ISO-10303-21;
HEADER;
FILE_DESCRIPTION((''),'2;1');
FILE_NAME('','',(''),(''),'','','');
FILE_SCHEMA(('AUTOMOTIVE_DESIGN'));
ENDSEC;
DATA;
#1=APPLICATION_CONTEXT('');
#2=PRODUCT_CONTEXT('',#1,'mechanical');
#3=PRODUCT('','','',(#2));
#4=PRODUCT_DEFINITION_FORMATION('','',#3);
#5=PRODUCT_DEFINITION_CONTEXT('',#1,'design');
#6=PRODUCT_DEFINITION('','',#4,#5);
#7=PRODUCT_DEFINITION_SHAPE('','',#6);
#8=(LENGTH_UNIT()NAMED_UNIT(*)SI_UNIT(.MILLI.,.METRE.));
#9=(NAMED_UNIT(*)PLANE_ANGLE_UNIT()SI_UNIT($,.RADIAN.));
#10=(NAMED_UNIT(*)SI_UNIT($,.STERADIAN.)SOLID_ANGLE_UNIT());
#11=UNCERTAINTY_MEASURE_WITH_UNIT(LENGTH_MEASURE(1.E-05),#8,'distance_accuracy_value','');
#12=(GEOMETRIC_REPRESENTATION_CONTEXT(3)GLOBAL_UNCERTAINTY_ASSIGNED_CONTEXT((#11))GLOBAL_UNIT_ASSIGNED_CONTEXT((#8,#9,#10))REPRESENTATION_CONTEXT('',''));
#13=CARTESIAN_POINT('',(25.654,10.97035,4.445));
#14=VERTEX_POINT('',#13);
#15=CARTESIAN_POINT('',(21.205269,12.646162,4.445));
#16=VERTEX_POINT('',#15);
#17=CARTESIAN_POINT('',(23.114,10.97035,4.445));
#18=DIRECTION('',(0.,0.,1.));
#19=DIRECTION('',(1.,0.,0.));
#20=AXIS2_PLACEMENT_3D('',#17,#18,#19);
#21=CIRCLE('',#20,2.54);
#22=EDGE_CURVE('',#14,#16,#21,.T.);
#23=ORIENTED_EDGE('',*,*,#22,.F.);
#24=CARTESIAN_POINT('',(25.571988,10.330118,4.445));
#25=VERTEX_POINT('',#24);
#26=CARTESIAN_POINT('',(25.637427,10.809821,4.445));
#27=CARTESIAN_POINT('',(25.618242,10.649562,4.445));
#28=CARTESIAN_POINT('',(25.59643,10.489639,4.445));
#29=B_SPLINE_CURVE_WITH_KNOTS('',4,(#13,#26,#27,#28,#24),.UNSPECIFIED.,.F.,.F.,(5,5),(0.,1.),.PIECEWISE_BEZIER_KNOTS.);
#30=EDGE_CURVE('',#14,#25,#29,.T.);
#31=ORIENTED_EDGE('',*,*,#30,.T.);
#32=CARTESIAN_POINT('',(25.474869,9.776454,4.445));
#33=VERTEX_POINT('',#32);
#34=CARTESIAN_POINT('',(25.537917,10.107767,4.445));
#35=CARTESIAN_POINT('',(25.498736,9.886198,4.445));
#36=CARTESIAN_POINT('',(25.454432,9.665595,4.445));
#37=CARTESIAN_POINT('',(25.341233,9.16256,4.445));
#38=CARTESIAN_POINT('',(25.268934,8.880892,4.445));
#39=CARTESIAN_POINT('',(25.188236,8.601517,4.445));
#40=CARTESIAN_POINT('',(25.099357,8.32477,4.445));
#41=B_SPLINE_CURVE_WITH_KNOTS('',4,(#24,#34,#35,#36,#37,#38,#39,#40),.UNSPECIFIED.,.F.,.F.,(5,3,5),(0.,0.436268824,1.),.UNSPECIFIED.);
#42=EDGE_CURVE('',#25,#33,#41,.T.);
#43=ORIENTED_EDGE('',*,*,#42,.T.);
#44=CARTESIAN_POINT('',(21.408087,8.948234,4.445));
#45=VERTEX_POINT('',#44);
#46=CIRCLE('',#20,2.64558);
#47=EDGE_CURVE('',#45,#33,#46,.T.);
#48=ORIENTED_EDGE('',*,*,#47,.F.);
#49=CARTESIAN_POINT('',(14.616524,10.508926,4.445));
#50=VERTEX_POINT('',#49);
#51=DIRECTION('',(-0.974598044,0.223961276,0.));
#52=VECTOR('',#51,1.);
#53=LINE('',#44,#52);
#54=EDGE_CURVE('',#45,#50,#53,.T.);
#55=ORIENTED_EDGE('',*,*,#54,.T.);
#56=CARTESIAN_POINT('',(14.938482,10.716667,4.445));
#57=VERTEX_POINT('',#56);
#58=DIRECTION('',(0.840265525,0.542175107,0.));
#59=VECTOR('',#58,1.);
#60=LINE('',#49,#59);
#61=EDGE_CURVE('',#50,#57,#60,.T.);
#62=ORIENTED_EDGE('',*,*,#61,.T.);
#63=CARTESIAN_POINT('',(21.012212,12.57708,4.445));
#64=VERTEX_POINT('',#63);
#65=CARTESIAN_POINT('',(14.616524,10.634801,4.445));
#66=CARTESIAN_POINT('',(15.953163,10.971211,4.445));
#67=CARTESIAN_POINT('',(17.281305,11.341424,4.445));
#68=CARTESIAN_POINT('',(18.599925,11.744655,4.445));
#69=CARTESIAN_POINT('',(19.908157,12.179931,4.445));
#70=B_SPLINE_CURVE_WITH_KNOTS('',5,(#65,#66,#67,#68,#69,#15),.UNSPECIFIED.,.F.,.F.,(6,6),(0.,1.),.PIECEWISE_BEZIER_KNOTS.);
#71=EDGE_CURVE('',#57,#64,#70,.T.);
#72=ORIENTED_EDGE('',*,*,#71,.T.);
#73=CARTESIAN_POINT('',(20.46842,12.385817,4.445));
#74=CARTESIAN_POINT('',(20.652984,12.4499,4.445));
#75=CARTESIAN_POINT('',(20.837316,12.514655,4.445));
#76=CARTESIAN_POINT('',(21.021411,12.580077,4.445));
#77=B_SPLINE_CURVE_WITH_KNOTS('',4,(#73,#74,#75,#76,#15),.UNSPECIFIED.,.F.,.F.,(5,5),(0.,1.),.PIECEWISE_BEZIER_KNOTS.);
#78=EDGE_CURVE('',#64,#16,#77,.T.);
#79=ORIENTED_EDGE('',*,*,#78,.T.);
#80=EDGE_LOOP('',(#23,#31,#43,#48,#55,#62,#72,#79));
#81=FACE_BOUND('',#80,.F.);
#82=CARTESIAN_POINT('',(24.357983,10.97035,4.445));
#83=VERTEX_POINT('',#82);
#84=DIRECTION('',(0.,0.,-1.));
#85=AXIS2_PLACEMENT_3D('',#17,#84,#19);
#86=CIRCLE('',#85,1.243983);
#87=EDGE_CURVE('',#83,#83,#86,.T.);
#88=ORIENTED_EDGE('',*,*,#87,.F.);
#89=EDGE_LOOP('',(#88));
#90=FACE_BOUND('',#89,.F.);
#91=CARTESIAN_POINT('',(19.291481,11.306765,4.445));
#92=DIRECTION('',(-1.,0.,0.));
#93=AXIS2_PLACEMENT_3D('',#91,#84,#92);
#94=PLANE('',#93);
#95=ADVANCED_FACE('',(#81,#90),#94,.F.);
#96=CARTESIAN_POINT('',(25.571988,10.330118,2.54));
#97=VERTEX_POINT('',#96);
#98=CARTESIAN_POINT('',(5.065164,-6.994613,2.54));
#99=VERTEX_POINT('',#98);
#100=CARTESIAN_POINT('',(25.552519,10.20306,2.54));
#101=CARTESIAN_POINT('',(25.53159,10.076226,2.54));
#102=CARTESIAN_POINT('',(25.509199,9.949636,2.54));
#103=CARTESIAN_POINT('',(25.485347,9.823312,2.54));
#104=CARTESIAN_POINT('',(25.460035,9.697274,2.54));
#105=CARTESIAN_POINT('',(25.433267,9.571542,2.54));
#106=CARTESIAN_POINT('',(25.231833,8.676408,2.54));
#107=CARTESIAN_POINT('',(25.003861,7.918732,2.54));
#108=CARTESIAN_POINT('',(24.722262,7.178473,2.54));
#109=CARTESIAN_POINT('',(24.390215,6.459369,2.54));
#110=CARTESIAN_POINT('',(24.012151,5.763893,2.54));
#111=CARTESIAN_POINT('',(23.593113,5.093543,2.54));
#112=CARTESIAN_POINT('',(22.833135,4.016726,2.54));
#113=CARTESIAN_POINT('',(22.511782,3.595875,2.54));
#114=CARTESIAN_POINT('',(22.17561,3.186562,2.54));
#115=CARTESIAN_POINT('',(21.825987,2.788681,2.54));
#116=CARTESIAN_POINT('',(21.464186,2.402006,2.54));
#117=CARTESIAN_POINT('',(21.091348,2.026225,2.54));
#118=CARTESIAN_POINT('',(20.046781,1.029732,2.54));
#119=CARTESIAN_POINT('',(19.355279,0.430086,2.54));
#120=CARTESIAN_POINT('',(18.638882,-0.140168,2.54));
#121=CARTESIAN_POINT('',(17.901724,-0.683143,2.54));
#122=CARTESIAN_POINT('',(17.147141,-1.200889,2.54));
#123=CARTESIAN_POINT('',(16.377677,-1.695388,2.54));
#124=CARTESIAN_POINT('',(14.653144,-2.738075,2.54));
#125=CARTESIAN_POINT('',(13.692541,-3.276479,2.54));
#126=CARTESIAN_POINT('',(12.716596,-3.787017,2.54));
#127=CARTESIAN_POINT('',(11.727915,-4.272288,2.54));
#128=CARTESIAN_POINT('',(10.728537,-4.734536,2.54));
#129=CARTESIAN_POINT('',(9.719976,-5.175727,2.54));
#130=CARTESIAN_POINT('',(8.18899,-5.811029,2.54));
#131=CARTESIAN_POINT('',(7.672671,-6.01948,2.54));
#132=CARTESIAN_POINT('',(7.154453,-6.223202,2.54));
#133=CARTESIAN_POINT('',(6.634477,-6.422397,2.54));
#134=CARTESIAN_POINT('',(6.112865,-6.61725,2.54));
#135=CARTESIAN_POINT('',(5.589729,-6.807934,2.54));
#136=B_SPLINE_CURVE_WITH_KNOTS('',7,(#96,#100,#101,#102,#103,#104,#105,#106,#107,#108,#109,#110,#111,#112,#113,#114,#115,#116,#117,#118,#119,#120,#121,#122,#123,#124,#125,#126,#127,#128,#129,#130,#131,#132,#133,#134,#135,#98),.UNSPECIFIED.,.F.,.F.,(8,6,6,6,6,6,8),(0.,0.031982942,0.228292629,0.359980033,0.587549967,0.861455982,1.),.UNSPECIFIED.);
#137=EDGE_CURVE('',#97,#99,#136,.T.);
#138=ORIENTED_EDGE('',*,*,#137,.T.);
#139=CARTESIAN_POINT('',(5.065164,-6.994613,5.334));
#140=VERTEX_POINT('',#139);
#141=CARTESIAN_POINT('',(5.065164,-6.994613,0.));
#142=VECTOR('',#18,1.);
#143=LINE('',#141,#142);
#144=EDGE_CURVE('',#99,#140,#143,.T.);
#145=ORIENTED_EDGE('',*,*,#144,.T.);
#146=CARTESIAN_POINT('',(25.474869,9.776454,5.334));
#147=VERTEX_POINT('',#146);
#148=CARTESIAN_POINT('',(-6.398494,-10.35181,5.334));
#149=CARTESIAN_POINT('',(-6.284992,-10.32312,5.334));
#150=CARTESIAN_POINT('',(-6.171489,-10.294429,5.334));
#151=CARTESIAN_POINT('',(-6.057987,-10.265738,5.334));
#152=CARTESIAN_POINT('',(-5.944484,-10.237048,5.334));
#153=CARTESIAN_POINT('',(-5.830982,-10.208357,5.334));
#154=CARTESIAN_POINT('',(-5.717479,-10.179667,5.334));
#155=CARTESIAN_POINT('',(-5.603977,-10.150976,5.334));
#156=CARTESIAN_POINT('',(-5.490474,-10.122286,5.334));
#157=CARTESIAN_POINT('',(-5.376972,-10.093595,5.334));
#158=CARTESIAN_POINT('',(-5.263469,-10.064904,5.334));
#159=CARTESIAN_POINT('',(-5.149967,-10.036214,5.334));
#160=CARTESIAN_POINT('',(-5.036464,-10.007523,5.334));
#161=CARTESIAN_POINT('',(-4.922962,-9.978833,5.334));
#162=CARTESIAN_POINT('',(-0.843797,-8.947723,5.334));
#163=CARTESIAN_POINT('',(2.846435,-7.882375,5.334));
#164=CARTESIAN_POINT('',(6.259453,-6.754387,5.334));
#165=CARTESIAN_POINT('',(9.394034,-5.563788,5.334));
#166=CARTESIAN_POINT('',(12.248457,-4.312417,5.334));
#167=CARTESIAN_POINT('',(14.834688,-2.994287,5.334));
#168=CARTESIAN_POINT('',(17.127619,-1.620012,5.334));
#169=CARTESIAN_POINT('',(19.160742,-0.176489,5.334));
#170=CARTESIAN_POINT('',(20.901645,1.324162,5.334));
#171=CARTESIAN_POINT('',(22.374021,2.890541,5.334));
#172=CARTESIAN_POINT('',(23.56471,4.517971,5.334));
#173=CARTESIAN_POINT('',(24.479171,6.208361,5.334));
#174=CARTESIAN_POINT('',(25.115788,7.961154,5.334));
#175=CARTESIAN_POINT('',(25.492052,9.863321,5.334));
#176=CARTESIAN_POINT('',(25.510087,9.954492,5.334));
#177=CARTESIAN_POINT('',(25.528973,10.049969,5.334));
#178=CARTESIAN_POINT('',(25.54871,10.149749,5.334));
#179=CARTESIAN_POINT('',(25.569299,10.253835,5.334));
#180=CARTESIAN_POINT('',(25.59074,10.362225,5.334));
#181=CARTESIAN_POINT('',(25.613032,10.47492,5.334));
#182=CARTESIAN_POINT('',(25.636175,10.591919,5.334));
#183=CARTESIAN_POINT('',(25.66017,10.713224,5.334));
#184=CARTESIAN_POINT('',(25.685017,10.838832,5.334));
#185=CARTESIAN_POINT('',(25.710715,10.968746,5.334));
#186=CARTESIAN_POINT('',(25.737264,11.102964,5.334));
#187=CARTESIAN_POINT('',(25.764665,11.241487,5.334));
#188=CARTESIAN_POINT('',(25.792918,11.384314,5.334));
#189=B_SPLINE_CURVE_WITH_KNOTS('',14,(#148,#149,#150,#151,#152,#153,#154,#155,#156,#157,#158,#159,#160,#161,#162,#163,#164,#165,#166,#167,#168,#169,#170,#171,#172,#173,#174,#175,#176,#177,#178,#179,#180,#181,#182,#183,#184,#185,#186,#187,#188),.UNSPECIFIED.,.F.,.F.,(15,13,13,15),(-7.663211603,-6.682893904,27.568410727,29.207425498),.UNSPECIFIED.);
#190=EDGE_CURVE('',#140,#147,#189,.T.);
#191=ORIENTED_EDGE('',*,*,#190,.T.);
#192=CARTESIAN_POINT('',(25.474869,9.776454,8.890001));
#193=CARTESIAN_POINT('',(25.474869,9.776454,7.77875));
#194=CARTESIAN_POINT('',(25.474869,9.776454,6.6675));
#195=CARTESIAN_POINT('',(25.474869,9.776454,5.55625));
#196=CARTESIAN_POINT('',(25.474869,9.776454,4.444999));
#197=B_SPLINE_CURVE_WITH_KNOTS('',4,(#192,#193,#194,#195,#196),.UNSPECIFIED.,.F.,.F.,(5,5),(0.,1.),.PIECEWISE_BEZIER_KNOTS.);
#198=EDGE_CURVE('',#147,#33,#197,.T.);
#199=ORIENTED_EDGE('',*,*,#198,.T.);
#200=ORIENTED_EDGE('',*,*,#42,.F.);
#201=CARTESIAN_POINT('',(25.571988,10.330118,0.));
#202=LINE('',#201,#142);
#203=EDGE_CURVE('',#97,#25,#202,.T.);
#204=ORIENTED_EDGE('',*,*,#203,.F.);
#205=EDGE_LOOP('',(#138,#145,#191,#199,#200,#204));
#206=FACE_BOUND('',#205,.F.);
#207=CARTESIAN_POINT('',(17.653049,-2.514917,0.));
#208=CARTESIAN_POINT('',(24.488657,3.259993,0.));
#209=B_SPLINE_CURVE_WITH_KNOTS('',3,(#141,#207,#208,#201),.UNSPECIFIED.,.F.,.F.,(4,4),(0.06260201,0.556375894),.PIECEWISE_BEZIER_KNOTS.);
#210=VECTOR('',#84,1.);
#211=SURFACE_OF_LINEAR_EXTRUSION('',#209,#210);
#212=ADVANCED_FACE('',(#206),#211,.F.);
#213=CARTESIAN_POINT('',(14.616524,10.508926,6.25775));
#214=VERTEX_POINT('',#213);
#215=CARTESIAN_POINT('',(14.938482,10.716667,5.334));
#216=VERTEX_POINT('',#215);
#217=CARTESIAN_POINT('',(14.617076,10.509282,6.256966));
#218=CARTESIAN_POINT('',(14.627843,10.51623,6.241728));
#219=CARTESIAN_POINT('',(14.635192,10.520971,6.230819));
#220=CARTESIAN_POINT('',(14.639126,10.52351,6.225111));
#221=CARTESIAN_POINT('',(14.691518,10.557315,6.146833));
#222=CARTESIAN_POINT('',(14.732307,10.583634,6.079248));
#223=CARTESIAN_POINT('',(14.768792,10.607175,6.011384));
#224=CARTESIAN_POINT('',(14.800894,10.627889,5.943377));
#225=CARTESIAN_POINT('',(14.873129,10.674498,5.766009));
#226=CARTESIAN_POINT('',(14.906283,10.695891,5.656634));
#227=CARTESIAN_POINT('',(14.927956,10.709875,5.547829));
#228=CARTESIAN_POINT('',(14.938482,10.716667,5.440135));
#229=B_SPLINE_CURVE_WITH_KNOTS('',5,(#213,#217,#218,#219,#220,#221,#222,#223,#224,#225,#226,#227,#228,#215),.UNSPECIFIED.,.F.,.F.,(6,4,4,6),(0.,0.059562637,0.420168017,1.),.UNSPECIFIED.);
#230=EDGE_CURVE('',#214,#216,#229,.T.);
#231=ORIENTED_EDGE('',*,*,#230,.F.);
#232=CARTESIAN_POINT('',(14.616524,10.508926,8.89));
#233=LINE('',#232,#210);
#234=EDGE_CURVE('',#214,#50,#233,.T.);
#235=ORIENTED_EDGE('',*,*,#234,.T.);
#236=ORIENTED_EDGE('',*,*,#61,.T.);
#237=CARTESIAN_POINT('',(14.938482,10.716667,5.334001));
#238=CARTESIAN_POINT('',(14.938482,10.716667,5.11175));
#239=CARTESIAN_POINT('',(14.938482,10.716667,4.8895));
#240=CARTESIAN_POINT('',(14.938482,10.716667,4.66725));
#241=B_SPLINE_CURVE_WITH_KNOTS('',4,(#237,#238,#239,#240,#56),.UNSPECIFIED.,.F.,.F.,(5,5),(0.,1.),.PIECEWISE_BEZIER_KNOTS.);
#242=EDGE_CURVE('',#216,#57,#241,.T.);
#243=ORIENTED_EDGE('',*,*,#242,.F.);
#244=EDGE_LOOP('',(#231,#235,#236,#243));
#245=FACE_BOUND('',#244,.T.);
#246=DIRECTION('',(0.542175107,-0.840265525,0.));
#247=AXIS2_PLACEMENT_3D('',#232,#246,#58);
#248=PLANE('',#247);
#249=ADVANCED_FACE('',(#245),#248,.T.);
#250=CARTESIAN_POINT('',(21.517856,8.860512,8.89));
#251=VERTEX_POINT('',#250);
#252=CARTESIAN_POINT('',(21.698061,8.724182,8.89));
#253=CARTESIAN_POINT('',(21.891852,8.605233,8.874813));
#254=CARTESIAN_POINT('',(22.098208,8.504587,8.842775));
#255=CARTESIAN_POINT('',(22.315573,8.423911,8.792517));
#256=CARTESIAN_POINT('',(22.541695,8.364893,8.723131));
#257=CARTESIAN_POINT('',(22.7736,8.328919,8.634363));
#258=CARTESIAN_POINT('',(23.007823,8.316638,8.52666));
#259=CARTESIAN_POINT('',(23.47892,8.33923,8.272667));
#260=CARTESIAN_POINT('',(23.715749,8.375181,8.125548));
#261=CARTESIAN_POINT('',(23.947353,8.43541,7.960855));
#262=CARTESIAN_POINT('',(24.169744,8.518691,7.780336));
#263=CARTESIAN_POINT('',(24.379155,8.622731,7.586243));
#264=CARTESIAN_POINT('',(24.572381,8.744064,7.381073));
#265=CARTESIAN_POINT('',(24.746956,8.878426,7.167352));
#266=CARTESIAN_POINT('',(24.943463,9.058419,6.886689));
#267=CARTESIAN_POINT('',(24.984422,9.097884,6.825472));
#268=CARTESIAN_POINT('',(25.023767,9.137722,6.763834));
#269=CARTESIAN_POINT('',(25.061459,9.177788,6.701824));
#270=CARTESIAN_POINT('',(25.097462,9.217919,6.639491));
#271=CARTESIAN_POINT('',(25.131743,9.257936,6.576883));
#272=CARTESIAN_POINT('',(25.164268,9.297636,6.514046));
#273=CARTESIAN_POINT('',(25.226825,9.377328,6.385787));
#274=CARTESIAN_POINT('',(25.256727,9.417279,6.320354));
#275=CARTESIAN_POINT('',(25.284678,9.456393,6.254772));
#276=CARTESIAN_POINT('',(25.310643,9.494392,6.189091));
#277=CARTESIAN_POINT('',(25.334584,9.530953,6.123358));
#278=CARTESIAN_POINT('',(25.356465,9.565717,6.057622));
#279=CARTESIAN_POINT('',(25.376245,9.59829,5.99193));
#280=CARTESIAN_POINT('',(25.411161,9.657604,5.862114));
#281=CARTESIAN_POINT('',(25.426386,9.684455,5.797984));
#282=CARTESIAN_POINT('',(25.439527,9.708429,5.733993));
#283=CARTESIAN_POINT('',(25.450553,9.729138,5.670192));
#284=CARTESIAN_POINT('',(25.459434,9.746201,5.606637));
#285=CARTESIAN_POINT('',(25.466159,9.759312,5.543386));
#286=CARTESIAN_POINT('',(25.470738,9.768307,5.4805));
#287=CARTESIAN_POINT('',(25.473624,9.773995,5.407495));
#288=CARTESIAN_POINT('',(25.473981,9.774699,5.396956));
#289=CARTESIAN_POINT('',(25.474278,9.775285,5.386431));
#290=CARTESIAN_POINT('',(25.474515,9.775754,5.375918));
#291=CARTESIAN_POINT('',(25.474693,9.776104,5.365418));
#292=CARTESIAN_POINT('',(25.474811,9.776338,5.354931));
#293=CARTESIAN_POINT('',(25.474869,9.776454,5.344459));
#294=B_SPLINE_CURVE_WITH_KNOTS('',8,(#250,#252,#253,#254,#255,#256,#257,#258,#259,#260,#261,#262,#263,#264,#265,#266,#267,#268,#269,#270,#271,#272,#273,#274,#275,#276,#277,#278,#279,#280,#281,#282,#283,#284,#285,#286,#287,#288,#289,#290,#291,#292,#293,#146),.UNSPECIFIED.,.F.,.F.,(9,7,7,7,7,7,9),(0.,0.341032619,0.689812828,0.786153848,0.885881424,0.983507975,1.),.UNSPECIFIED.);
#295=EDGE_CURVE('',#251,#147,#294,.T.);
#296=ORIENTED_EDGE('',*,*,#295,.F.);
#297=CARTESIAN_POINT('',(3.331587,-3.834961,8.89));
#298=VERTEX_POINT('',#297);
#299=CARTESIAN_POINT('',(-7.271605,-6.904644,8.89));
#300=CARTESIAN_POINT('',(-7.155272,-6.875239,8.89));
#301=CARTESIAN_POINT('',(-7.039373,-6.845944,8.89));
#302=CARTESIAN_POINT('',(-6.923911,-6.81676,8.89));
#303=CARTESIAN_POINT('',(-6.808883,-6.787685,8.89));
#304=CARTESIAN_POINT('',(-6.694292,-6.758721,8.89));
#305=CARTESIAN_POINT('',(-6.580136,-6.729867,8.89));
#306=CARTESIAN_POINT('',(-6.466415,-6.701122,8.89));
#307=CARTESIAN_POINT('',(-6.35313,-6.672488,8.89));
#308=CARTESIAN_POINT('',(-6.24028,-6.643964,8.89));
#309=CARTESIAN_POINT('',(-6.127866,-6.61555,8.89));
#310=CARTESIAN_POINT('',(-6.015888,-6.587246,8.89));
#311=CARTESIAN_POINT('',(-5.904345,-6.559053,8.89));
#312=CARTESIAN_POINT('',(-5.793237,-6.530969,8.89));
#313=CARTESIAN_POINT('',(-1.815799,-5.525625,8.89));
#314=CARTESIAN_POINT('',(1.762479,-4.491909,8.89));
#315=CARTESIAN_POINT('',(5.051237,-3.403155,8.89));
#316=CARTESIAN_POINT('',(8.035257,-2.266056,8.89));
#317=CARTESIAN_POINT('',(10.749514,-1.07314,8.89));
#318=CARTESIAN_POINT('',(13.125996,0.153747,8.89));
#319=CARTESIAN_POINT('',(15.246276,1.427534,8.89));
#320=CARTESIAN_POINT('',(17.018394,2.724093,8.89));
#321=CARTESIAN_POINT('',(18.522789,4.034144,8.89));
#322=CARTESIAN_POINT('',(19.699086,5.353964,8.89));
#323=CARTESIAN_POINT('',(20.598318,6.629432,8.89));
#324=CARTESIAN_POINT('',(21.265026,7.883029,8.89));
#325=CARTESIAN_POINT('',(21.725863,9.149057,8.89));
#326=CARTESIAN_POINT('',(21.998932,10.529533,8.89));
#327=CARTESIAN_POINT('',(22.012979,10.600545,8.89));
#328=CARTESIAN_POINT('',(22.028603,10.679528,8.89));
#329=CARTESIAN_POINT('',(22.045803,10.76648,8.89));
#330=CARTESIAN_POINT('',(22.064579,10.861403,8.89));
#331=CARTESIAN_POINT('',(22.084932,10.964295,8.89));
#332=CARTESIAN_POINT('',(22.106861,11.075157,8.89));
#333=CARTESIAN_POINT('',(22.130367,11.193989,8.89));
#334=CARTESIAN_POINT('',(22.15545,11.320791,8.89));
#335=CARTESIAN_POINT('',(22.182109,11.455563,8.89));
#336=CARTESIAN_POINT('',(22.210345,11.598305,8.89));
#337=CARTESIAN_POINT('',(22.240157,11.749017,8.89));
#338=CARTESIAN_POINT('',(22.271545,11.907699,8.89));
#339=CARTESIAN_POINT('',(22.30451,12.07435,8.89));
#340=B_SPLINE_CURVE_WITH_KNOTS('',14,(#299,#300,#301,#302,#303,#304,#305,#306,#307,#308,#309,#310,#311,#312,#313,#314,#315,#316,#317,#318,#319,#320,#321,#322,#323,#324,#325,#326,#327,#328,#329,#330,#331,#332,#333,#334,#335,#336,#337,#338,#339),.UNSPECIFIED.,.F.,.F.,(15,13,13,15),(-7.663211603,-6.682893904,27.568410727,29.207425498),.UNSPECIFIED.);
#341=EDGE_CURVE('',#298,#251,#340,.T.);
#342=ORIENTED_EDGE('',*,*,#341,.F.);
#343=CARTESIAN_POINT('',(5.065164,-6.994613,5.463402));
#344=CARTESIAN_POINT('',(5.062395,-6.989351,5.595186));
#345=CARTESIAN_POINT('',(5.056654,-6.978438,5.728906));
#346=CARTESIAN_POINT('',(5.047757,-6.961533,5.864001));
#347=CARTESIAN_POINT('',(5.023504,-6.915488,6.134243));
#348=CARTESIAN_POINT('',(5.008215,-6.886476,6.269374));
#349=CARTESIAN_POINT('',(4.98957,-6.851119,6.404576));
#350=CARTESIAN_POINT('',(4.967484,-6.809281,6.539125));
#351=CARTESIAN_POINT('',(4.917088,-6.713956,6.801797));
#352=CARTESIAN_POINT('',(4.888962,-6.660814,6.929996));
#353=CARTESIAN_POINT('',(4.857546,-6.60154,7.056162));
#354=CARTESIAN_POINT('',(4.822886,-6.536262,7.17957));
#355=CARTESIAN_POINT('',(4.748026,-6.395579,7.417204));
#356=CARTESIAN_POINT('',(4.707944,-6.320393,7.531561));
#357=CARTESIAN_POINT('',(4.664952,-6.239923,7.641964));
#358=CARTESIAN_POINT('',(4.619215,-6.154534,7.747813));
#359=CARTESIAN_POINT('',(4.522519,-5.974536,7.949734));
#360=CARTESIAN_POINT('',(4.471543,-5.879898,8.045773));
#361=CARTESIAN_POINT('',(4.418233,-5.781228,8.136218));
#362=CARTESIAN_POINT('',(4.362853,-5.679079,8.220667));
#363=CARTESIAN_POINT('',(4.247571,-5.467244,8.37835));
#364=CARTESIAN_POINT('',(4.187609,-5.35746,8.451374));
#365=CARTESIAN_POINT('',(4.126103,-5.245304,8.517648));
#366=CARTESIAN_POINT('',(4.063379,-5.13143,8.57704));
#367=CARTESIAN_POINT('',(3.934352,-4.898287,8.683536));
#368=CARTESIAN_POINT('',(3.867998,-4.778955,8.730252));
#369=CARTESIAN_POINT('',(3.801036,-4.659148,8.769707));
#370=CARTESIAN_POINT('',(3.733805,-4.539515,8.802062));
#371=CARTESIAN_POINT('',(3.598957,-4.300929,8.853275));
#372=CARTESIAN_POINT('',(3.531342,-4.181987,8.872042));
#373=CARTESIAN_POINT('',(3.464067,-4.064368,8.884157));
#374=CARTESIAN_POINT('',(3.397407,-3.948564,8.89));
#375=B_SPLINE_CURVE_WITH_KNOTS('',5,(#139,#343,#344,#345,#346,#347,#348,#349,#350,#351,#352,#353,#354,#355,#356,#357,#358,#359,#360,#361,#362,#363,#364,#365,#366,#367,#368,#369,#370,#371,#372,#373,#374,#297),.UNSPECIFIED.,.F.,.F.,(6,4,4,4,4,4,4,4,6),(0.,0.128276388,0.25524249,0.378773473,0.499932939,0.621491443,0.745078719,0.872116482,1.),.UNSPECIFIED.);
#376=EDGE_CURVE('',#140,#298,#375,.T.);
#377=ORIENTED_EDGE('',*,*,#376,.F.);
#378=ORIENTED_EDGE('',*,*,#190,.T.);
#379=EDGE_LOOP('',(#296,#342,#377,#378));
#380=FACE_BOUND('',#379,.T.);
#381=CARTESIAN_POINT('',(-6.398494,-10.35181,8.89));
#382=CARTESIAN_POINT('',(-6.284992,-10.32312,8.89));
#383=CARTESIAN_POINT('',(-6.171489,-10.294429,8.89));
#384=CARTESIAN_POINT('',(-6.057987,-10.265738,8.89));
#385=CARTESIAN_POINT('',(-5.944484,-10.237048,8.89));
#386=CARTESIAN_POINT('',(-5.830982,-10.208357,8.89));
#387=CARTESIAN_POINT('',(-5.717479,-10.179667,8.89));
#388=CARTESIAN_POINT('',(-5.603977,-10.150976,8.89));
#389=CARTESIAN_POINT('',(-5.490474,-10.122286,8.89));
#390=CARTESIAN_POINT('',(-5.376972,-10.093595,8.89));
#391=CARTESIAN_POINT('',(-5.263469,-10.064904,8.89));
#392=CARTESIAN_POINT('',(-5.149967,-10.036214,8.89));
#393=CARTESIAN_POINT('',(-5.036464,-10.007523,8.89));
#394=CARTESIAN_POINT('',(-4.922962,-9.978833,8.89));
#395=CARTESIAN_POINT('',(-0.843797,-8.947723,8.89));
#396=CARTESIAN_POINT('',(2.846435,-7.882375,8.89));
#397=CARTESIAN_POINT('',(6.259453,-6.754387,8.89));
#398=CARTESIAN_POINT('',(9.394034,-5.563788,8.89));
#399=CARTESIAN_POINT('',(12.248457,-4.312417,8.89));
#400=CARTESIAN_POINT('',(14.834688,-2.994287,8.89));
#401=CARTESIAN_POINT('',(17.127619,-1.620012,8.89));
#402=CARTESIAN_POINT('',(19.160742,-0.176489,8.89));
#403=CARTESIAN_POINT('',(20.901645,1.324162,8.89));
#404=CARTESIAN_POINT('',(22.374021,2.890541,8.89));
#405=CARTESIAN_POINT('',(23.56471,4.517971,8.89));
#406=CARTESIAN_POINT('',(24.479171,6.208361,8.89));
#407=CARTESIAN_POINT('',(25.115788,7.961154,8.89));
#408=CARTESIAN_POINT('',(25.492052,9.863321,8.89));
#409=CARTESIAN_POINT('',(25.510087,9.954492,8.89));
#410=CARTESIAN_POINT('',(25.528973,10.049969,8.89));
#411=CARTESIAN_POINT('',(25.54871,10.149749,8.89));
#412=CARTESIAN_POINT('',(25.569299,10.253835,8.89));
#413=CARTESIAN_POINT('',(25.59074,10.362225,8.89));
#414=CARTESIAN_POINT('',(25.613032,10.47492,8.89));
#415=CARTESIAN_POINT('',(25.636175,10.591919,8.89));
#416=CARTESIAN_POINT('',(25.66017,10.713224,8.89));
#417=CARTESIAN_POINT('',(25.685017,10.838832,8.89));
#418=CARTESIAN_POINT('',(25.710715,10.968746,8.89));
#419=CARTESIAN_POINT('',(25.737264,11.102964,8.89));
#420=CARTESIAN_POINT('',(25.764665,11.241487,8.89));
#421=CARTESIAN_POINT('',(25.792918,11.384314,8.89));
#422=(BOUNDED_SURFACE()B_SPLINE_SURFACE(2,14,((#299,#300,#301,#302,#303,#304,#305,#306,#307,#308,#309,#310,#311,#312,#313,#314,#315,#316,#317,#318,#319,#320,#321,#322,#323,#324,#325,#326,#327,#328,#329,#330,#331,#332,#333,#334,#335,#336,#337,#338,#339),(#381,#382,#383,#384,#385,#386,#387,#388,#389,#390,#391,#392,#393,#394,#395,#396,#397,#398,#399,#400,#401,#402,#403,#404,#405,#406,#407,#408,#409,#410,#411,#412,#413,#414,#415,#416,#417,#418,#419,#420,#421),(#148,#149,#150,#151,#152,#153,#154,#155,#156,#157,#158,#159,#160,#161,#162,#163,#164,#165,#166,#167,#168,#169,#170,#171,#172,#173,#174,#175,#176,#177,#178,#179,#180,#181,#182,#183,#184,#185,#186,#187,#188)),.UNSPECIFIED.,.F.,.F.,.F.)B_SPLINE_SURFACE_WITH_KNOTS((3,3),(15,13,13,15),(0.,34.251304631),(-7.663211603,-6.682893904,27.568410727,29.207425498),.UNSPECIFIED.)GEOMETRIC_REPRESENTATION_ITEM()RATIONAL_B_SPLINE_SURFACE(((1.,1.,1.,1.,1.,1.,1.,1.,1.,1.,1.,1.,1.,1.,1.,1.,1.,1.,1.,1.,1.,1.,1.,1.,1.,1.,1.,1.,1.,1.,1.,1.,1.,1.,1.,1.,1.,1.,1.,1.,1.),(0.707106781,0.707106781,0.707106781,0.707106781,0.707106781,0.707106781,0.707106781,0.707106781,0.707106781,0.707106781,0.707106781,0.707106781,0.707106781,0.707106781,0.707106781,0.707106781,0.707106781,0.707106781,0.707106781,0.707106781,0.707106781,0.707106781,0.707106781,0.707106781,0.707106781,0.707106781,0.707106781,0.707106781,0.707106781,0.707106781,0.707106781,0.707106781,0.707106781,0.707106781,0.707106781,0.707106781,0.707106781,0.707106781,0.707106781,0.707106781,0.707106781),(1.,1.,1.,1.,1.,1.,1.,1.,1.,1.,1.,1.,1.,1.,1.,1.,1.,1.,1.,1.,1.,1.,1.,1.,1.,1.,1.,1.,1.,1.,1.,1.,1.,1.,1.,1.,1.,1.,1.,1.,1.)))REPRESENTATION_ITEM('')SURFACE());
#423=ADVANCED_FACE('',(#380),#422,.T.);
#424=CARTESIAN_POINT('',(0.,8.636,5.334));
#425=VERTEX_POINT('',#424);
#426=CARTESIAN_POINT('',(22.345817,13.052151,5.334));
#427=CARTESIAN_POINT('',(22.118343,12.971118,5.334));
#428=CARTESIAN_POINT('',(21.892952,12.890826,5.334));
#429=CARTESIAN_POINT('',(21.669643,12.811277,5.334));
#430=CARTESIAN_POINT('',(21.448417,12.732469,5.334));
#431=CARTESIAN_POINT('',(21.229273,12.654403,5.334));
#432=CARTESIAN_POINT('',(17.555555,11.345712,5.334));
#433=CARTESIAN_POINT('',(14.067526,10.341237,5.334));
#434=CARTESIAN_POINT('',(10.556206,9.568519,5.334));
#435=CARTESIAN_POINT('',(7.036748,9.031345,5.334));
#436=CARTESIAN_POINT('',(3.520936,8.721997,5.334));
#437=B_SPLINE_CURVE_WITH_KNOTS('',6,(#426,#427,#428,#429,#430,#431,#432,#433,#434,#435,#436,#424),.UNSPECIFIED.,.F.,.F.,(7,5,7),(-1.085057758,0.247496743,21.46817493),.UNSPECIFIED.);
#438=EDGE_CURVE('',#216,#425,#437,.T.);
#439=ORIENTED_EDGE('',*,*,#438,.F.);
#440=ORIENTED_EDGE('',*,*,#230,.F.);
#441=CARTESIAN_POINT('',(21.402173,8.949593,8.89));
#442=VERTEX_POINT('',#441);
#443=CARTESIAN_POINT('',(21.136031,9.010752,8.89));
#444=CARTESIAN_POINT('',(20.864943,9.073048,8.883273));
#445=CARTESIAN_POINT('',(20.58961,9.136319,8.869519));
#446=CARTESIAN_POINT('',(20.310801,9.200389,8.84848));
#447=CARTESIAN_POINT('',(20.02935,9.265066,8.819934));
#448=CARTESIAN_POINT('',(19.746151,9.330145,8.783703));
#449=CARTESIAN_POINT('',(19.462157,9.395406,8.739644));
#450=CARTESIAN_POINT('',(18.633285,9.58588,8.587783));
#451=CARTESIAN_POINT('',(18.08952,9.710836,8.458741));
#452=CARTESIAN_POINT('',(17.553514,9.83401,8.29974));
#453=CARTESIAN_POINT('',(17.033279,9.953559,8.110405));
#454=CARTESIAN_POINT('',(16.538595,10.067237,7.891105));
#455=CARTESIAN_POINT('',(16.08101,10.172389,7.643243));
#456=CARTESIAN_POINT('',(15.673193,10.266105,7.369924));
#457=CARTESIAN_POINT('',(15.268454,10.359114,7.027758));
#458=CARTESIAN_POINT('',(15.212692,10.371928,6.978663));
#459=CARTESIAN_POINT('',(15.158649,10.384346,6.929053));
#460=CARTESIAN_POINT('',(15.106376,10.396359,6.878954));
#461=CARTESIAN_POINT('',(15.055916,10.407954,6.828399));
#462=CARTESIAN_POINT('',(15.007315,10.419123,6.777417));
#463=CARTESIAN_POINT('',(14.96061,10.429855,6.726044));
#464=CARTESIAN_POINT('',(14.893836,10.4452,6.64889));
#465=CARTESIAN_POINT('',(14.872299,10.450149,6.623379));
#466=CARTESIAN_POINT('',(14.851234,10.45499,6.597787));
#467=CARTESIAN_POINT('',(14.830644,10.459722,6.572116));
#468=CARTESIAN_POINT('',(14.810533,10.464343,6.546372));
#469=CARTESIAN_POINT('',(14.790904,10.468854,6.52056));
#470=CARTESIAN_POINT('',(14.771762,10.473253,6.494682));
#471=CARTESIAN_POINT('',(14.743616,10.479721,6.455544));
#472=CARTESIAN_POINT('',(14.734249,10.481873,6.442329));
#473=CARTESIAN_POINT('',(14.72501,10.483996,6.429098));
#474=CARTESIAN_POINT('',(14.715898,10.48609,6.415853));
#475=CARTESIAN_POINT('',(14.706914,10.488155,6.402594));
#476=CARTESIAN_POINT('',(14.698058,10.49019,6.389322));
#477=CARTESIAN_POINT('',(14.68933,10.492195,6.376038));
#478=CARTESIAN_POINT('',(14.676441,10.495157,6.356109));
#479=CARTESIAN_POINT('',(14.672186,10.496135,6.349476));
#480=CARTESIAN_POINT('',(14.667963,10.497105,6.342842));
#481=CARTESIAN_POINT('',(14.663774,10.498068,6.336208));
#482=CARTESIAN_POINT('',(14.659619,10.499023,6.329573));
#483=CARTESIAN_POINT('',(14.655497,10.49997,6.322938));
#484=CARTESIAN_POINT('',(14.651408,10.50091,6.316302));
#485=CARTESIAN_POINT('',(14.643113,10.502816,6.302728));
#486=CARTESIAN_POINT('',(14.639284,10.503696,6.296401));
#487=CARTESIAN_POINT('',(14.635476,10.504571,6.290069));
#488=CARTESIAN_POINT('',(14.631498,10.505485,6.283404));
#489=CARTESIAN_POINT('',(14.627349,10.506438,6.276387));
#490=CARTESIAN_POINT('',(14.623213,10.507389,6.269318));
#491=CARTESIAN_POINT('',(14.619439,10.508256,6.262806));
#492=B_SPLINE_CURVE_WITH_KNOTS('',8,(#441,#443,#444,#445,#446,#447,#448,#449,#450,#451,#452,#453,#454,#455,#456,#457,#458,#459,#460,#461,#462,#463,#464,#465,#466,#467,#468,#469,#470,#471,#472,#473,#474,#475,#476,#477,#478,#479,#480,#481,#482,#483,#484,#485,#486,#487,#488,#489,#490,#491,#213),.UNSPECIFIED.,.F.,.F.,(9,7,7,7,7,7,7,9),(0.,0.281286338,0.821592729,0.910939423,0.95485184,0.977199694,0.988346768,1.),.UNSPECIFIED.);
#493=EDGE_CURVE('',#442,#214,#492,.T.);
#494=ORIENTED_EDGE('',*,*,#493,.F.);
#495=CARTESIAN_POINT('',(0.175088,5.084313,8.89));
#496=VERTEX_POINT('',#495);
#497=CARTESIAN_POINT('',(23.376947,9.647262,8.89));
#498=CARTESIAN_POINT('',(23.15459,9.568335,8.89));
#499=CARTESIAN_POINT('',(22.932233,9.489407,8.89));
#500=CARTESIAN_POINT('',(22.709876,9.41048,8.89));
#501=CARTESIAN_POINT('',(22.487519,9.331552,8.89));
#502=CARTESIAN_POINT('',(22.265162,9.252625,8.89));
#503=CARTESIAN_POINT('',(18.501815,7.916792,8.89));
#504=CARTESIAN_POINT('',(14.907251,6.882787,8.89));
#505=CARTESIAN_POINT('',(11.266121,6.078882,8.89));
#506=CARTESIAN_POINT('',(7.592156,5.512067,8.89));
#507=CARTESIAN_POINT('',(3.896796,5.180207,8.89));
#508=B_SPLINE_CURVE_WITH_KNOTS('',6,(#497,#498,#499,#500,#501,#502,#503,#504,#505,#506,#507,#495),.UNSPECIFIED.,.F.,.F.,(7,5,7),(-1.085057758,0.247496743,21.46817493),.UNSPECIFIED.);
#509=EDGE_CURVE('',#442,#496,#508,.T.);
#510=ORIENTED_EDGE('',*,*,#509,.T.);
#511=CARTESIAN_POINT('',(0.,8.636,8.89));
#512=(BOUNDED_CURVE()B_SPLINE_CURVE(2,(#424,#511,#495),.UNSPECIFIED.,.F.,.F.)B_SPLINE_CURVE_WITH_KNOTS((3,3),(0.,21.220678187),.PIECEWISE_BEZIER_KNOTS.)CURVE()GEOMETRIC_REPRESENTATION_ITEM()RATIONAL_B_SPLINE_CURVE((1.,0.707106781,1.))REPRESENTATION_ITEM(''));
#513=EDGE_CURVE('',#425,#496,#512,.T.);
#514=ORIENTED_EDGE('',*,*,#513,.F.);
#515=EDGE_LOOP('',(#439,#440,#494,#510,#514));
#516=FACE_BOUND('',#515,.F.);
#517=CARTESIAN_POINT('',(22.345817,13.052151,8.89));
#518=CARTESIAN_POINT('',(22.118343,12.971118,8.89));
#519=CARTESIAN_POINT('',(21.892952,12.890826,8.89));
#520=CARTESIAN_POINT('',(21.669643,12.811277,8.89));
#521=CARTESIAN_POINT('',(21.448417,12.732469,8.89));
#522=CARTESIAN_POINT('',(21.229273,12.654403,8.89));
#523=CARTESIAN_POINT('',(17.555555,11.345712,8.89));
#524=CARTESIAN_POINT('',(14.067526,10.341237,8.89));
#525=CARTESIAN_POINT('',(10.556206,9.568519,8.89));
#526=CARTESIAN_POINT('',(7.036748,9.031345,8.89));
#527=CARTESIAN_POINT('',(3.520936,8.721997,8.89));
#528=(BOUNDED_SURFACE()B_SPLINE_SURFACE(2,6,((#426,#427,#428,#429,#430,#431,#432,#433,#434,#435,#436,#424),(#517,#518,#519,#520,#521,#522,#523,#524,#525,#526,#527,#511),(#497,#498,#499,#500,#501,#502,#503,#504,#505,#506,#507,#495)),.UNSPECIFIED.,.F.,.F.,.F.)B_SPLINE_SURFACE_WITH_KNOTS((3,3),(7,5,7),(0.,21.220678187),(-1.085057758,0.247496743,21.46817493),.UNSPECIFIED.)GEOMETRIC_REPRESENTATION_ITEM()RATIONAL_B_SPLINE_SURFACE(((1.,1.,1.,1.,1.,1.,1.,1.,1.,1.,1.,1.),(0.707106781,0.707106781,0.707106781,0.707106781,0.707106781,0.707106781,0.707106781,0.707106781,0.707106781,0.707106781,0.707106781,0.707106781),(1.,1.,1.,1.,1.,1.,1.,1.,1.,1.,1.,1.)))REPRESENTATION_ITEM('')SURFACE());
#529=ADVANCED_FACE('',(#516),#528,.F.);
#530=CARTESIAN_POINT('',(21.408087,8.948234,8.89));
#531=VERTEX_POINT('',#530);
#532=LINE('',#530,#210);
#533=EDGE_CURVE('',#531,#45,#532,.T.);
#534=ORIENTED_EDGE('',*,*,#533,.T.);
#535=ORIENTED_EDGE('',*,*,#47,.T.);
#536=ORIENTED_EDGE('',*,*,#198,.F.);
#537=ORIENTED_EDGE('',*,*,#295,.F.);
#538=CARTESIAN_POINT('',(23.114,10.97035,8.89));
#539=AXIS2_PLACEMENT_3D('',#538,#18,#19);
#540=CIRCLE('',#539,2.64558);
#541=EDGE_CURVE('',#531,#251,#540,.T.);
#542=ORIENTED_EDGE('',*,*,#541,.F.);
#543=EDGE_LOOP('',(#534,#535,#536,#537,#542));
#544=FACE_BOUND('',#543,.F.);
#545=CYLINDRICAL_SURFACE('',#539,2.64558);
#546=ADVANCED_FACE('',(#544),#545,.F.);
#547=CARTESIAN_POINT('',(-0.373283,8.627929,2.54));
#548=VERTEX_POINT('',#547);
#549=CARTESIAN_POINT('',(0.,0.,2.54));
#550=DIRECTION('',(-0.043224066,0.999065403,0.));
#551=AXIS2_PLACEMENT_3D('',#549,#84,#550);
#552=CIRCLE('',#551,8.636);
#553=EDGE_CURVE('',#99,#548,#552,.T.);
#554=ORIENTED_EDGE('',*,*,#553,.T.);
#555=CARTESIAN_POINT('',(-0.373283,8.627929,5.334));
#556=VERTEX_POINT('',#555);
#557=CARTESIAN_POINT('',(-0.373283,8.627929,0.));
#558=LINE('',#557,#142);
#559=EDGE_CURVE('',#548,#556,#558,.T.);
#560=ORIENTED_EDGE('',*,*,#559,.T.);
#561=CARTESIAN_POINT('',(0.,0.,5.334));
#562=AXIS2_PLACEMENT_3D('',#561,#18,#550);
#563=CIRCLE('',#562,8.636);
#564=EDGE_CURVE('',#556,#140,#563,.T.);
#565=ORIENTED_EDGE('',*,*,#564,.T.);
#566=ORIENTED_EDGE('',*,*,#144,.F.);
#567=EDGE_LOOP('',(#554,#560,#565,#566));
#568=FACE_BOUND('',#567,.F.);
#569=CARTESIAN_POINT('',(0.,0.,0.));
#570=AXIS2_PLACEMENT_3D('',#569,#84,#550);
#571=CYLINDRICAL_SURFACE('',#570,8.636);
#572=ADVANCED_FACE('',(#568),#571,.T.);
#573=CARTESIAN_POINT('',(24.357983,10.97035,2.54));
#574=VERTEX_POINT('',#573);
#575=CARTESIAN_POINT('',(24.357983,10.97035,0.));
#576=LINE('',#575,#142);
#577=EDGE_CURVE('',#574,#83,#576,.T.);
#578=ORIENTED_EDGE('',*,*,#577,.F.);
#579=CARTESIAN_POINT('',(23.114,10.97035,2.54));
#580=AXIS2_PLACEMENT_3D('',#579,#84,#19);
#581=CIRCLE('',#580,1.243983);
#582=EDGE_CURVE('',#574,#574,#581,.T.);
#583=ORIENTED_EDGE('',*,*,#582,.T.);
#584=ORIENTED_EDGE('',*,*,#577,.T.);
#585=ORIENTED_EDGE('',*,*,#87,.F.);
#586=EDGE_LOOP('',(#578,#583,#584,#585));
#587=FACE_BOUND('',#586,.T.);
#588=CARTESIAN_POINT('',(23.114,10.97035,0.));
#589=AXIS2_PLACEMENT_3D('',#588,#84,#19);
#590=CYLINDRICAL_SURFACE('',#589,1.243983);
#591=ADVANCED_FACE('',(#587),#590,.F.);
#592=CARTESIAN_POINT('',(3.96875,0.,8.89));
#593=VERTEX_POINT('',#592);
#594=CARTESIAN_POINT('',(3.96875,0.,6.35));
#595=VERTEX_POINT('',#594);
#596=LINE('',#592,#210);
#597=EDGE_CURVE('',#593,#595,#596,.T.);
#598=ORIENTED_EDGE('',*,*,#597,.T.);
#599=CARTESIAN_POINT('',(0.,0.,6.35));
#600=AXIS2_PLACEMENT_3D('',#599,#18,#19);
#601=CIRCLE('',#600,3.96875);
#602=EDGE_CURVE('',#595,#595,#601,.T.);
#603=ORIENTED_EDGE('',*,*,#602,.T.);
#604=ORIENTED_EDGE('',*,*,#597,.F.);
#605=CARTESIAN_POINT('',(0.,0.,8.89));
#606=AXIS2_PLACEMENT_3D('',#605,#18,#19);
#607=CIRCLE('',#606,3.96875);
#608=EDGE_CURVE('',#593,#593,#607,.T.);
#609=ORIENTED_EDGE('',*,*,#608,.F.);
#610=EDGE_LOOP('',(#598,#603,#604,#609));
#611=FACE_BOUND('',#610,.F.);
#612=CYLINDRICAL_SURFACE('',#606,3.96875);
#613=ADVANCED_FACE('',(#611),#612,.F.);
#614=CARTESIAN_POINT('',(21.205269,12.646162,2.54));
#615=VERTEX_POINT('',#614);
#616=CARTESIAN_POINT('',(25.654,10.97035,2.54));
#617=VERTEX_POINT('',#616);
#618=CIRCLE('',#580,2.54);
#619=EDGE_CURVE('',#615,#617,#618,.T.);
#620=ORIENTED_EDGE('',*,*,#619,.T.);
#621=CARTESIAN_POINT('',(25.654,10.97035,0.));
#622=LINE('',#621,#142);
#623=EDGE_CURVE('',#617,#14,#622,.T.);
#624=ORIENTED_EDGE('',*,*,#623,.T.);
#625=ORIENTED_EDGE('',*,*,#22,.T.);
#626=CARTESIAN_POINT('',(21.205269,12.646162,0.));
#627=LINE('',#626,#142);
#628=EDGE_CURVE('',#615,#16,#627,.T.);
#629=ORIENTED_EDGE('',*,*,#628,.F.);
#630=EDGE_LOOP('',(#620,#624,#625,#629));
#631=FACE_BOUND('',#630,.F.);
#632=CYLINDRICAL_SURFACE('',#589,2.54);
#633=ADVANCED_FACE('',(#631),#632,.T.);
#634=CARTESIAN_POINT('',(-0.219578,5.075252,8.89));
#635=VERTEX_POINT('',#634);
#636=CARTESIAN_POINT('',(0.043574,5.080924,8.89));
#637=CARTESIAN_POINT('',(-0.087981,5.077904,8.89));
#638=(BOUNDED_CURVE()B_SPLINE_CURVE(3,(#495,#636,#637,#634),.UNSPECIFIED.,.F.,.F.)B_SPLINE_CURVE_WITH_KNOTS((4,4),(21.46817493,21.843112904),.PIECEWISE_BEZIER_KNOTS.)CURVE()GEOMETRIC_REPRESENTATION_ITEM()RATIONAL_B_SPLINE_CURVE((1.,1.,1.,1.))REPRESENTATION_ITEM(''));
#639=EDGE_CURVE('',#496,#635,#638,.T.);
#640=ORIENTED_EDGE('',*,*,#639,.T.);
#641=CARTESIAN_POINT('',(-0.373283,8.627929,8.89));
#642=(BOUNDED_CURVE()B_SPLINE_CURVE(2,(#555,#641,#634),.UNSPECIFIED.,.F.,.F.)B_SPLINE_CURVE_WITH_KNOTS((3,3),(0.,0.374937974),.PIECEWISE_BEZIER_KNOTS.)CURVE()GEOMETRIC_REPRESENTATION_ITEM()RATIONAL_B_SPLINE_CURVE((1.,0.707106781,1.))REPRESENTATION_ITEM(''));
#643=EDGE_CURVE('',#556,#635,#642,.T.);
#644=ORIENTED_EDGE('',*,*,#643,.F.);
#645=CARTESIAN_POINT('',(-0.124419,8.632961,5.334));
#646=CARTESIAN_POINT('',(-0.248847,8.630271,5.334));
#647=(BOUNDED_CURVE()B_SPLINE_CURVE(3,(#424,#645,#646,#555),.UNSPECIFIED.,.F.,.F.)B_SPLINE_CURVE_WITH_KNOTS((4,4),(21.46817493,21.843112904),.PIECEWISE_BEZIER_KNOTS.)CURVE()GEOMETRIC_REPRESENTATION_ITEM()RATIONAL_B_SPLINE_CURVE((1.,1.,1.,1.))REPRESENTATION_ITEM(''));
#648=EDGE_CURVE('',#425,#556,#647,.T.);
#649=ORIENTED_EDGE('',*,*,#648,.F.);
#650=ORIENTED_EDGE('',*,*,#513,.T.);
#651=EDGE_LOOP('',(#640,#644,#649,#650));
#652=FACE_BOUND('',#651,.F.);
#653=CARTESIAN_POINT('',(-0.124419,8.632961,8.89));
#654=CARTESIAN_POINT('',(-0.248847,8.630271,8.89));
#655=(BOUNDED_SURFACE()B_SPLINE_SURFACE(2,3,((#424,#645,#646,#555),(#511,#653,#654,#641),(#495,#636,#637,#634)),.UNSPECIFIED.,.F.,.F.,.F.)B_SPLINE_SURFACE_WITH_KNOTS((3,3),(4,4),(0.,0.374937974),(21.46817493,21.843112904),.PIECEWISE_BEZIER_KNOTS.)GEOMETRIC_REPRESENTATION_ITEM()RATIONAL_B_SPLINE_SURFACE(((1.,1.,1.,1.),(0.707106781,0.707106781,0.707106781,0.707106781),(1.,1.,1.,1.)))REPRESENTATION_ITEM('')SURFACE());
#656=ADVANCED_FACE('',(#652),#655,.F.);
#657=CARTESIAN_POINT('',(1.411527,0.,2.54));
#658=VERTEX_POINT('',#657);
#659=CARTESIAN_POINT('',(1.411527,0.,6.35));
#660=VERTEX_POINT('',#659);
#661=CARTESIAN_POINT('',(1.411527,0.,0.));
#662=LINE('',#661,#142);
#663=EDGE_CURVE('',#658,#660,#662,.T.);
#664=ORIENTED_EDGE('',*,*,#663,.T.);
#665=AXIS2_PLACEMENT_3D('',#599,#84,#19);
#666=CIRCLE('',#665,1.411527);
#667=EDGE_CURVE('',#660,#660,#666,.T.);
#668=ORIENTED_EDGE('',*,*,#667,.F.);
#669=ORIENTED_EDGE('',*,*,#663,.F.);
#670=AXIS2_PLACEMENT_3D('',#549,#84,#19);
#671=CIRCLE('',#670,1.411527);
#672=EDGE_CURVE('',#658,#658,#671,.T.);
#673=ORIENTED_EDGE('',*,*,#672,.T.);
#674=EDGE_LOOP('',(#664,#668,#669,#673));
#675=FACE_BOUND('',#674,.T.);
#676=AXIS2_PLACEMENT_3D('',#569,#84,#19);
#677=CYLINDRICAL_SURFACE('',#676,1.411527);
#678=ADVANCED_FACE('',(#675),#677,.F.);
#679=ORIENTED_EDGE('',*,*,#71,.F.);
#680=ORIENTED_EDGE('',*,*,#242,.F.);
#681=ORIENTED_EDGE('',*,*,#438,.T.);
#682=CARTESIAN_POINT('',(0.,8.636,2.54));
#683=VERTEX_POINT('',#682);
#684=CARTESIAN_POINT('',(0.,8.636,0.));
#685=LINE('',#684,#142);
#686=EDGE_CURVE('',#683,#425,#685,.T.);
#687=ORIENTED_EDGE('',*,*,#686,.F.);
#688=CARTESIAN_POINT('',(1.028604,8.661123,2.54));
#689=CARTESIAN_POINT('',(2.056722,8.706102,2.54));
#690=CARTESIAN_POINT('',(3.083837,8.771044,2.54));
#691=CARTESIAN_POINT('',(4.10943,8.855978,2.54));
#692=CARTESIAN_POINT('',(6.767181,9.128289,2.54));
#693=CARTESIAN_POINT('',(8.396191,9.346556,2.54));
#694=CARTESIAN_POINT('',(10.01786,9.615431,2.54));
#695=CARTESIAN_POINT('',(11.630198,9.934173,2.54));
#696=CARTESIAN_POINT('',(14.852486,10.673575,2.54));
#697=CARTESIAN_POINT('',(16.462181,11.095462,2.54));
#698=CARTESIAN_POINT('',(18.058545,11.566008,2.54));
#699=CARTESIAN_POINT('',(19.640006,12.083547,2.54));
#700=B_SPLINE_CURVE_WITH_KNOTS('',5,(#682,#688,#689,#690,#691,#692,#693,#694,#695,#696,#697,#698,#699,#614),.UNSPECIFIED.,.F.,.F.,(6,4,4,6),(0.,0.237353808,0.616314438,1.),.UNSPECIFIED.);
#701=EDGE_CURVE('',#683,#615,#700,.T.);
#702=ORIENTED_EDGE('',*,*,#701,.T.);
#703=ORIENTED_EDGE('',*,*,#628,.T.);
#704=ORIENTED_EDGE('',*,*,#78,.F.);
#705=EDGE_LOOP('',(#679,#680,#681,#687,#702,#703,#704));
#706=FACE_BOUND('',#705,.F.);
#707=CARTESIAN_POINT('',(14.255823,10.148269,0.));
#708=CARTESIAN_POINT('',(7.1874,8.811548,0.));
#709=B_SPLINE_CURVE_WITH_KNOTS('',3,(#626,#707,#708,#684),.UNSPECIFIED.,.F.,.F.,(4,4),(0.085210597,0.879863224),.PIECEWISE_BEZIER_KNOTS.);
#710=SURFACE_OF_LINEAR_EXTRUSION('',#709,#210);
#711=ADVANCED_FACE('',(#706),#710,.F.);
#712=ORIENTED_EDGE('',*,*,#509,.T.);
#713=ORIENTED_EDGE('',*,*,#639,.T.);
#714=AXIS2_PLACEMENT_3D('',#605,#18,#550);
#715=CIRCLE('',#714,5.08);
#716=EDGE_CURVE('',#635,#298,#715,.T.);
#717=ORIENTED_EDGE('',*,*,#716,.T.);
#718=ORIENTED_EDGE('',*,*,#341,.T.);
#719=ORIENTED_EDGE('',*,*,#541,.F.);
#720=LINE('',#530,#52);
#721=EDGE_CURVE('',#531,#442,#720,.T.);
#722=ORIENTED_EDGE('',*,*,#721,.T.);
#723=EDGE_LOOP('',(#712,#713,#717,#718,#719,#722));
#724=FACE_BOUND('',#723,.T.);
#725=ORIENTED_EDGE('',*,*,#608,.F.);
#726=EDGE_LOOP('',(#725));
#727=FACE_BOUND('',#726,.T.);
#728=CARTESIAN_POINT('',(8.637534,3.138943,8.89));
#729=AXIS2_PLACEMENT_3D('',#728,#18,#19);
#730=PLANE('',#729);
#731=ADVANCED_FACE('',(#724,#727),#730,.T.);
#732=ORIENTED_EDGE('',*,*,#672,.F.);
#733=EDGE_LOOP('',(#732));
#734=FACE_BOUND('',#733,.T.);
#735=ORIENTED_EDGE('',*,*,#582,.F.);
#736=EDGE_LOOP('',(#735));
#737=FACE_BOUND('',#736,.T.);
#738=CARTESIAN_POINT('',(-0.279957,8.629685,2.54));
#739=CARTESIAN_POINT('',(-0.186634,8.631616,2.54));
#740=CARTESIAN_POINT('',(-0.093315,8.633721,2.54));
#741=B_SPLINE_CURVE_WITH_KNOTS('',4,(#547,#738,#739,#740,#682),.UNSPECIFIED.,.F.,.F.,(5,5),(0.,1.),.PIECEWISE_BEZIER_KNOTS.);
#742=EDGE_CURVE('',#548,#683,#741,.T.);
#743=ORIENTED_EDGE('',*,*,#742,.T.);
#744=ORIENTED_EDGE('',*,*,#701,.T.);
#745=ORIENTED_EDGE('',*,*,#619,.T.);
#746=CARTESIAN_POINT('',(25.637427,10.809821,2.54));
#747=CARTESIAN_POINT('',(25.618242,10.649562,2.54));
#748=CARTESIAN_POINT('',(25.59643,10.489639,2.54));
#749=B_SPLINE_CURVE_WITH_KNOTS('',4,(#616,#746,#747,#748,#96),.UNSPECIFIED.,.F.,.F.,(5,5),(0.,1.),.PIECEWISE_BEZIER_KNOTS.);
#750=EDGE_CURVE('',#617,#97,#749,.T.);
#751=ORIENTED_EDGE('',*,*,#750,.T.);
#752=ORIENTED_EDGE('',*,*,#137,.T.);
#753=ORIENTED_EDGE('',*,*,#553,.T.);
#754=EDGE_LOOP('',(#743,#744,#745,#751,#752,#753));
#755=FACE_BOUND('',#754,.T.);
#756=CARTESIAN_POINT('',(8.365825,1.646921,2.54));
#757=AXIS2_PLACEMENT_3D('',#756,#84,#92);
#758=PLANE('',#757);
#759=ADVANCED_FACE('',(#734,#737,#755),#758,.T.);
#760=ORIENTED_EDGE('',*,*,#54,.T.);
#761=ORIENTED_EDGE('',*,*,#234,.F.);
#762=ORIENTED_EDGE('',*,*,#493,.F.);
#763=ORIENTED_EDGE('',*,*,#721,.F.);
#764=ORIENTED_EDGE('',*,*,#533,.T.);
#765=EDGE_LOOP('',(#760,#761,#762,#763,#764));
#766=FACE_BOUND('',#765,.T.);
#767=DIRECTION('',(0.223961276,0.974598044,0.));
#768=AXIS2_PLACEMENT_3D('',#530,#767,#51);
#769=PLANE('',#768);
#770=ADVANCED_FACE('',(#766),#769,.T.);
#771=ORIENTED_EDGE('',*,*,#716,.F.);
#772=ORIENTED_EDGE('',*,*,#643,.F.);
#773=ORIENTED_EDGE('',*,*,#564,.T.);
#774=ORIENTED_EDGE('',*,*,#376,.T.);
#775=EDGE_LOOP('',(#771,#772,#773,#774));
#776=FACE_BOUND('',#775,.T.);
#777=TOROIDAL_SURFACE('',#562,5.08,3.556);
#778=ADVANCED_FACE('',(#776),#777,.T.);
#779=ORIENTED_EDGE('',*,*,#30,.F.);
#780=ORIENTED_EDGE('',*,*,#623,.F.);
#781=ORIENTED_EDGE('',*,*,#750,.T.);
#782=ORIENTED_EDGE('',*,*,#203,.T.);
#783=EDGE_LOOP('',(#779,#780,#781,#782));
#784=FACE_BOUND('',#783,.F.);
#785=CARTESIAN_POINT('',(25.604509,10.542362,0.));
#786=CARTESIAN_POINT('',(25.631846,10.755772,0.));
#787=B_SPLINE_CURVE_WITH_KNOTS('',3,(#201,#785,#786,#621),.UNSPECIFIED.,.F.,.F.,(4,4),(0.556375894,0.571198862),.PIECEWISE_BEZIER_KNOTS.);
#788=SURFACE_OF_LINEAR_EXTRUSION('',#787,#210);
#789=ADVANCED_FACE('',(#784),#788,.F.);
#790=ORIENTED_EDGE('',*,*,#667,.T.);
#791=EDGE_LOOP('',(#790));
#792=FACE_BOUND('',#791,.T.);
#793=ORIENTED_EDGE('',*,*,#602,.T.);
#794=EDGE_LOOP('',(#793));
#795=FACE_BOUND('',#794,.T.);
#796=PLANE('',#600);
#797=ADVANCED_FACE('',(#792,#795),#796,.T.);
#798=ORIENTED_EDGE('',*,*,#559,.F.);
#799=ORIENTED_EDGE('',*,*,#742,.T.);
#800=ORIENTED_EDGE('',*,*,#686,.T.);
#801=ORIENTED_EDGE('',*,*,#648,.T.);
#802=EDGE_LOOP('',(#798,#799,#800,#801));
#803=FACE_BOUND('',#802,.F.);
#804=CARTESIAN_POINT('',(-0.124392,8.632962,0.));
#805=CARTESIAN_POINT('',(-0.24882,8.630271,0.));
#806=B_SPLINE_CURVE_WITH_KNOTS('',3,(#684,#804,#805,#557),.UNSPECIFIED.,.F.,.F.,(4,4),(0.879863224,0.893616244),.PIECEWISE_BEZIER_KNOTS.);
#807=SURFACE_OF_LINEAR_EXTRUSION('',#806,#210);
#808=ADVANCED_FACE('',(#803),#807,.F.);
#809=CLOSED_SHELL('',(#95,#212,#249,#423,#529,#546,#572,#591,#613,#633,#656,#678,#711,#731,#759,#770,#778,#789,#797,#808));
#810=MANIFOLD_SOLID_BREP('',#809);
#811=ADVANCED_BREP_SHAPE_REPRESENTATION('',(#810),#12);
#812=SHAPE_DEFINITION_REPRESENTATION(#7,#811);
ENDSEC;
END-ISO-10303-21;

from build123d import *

# Parameters (mm, degrees)
SKETCH1_R           = 1.411527177
SKETCH1_R_2         = 1.243983369
BOSS_EXTRUDE1_DEPTH = 8.89
SKETCH2_R           = 2.645579886
CUT_EXTRUDE1_DEPTH  = 4.445
FILLET1_R           = 3.556
SKETCH3_W           = 44.674996293
SKETCH3_H           = 31.668439698
CUT_EXTRUDE2_DEPTH  = 2.54
SKETCH4_R           = 3.96875
CUT_EXTRUDE3_DEPTH  = 2.54
CUT_EXTRUDE7_DEPTH  = 4.445


with BuildPart() as part:
    # Sketch1 → Boss-Extrude1 (new body)
    with BuildSketch(Plane.XY):
        with BuildLine():
            add(Edge.make_bspline(
                [(21.205268726, 12.646161991), (14.255823247, 10.148268513), (7.187400407, 8.811547849), (0, 8.636)],
                knots=[0.085210597, 0.085210597, 0.085210597, 0.085210597, 0.879863224, 0.879863224, 0.879863224, 0.879863224], degree=3))
            add(Edge.make_bspline(
                [(0, 8.636), (-0.12439204, 8.632961801), (-0.248819718, 8.630271408), (-0.373283033, 8.627928823)],
                knots=[0.879863224, 0.879863224, 0.879863224, 0.879863224, 0.893616244, 0.893616244, 0.893616244, 0.893616244], degree=3))
            ThreePointArc((-0.373283033, 8.627928823), (-8.155941991, -2.839208736), (5.065163845, -6.994613014))
            add(Edge.make_bspline(
                [(5.065163845, -6.994613014), (17.65304868, -2.514917498), (24.488656608, 3.25999298), (25.571987628, 10.33011842)],
                knots=[0.06260201, 0.06260201, 0.06260201, 0.06260201, 0.556375894, 0.556375894, 0.556375894, 0.556375894], degree=3))
            add(Edge.make_bspline(
                [(25.571987628, 10.33011842), (25.604508953, 10.542361808), (25.63184641, 10.755772424), (25.654, 10.97035027)],
                knots=[0.556375894, 0.556375894, 0.556375894, 0.556375894, 0.571198862, 0.571198862, 0.571198862, 0.571198862], degree=3))
            ThreePointArc((25.654, 10.97035027), (24.009383316, 13.347299726), (21.205268726, 12.646161991))
        make_face()
        Circle(SKETCH1_R, mode=Mode.SUBTRACT)
        with Locations((23.114, 10.97035027)):
            Circle(SKETCH1_R_2, mode=Mode.SUBTRACT)
    extrude(amount=BOSS_EXTRUDE1_DEPTH)

    # Sketch2 → Cut-Extrude1 (cut)
    with BuildSketch(Plane.XY.offset(8.89)):
        with Locations((23.114, 10.97035027)):
            Circle(SKETCH2_R)
    extrude(amount=-CUT_EXTRUDE1_DEPTH, mode=Mode.SUBTRACT)

    # Fillet1
    fillet1_edges = [part.edges().sort_by_distance(p)[0] for p in [
        (10.663514179, 9.764845798, 8.89),
        (-8.155941991, -2.839208736, 8.89),
        (17.427402091, -0.984924283, 8.89),
    ]]
    fillet(fillet1_edges, radius=FILLET1_R)

    # Sketch3 → Cut-Extrude2 (cut)
    with BuildSketch(Plane(origin=(0, 0, 0), x_dir=(-1, 0, 0), z_dir=(0, 0, -1))):
        with Locations((-8.365824592, 1.646921095)):
            Rectangle(SKETCH3_W, SKETCH3_H)
    extrude(amount=-CUT_EXTRUDE2_DEPTH, mode=Mode.SUBTRACT)

    # Sketch4 → Cut-Extrude3 (cut)
    with BuildSketch(Plane.XY.offset(8.89)):
        Circle(SKETCH4_R)
    extrude(amount=-CUT_EXTRUDE3_DEPTH, mode=Mode.SUBTRACT)

    # Sketch9 → Cut-Extrude7 (cut)
    with BuildSketch(Plane.XY.offset(8.89)):
        Polygon((21.408086702, 8.948234361), (14.616524105, 10.508926006), (20.791087942, 14.493017593), (23.324721169, 10.827396362), align=None)
    extrude(amount=-CUT_EXTRUDE7_DEPTH, mode=Mode.SUBTRACT)


solid = part.part
